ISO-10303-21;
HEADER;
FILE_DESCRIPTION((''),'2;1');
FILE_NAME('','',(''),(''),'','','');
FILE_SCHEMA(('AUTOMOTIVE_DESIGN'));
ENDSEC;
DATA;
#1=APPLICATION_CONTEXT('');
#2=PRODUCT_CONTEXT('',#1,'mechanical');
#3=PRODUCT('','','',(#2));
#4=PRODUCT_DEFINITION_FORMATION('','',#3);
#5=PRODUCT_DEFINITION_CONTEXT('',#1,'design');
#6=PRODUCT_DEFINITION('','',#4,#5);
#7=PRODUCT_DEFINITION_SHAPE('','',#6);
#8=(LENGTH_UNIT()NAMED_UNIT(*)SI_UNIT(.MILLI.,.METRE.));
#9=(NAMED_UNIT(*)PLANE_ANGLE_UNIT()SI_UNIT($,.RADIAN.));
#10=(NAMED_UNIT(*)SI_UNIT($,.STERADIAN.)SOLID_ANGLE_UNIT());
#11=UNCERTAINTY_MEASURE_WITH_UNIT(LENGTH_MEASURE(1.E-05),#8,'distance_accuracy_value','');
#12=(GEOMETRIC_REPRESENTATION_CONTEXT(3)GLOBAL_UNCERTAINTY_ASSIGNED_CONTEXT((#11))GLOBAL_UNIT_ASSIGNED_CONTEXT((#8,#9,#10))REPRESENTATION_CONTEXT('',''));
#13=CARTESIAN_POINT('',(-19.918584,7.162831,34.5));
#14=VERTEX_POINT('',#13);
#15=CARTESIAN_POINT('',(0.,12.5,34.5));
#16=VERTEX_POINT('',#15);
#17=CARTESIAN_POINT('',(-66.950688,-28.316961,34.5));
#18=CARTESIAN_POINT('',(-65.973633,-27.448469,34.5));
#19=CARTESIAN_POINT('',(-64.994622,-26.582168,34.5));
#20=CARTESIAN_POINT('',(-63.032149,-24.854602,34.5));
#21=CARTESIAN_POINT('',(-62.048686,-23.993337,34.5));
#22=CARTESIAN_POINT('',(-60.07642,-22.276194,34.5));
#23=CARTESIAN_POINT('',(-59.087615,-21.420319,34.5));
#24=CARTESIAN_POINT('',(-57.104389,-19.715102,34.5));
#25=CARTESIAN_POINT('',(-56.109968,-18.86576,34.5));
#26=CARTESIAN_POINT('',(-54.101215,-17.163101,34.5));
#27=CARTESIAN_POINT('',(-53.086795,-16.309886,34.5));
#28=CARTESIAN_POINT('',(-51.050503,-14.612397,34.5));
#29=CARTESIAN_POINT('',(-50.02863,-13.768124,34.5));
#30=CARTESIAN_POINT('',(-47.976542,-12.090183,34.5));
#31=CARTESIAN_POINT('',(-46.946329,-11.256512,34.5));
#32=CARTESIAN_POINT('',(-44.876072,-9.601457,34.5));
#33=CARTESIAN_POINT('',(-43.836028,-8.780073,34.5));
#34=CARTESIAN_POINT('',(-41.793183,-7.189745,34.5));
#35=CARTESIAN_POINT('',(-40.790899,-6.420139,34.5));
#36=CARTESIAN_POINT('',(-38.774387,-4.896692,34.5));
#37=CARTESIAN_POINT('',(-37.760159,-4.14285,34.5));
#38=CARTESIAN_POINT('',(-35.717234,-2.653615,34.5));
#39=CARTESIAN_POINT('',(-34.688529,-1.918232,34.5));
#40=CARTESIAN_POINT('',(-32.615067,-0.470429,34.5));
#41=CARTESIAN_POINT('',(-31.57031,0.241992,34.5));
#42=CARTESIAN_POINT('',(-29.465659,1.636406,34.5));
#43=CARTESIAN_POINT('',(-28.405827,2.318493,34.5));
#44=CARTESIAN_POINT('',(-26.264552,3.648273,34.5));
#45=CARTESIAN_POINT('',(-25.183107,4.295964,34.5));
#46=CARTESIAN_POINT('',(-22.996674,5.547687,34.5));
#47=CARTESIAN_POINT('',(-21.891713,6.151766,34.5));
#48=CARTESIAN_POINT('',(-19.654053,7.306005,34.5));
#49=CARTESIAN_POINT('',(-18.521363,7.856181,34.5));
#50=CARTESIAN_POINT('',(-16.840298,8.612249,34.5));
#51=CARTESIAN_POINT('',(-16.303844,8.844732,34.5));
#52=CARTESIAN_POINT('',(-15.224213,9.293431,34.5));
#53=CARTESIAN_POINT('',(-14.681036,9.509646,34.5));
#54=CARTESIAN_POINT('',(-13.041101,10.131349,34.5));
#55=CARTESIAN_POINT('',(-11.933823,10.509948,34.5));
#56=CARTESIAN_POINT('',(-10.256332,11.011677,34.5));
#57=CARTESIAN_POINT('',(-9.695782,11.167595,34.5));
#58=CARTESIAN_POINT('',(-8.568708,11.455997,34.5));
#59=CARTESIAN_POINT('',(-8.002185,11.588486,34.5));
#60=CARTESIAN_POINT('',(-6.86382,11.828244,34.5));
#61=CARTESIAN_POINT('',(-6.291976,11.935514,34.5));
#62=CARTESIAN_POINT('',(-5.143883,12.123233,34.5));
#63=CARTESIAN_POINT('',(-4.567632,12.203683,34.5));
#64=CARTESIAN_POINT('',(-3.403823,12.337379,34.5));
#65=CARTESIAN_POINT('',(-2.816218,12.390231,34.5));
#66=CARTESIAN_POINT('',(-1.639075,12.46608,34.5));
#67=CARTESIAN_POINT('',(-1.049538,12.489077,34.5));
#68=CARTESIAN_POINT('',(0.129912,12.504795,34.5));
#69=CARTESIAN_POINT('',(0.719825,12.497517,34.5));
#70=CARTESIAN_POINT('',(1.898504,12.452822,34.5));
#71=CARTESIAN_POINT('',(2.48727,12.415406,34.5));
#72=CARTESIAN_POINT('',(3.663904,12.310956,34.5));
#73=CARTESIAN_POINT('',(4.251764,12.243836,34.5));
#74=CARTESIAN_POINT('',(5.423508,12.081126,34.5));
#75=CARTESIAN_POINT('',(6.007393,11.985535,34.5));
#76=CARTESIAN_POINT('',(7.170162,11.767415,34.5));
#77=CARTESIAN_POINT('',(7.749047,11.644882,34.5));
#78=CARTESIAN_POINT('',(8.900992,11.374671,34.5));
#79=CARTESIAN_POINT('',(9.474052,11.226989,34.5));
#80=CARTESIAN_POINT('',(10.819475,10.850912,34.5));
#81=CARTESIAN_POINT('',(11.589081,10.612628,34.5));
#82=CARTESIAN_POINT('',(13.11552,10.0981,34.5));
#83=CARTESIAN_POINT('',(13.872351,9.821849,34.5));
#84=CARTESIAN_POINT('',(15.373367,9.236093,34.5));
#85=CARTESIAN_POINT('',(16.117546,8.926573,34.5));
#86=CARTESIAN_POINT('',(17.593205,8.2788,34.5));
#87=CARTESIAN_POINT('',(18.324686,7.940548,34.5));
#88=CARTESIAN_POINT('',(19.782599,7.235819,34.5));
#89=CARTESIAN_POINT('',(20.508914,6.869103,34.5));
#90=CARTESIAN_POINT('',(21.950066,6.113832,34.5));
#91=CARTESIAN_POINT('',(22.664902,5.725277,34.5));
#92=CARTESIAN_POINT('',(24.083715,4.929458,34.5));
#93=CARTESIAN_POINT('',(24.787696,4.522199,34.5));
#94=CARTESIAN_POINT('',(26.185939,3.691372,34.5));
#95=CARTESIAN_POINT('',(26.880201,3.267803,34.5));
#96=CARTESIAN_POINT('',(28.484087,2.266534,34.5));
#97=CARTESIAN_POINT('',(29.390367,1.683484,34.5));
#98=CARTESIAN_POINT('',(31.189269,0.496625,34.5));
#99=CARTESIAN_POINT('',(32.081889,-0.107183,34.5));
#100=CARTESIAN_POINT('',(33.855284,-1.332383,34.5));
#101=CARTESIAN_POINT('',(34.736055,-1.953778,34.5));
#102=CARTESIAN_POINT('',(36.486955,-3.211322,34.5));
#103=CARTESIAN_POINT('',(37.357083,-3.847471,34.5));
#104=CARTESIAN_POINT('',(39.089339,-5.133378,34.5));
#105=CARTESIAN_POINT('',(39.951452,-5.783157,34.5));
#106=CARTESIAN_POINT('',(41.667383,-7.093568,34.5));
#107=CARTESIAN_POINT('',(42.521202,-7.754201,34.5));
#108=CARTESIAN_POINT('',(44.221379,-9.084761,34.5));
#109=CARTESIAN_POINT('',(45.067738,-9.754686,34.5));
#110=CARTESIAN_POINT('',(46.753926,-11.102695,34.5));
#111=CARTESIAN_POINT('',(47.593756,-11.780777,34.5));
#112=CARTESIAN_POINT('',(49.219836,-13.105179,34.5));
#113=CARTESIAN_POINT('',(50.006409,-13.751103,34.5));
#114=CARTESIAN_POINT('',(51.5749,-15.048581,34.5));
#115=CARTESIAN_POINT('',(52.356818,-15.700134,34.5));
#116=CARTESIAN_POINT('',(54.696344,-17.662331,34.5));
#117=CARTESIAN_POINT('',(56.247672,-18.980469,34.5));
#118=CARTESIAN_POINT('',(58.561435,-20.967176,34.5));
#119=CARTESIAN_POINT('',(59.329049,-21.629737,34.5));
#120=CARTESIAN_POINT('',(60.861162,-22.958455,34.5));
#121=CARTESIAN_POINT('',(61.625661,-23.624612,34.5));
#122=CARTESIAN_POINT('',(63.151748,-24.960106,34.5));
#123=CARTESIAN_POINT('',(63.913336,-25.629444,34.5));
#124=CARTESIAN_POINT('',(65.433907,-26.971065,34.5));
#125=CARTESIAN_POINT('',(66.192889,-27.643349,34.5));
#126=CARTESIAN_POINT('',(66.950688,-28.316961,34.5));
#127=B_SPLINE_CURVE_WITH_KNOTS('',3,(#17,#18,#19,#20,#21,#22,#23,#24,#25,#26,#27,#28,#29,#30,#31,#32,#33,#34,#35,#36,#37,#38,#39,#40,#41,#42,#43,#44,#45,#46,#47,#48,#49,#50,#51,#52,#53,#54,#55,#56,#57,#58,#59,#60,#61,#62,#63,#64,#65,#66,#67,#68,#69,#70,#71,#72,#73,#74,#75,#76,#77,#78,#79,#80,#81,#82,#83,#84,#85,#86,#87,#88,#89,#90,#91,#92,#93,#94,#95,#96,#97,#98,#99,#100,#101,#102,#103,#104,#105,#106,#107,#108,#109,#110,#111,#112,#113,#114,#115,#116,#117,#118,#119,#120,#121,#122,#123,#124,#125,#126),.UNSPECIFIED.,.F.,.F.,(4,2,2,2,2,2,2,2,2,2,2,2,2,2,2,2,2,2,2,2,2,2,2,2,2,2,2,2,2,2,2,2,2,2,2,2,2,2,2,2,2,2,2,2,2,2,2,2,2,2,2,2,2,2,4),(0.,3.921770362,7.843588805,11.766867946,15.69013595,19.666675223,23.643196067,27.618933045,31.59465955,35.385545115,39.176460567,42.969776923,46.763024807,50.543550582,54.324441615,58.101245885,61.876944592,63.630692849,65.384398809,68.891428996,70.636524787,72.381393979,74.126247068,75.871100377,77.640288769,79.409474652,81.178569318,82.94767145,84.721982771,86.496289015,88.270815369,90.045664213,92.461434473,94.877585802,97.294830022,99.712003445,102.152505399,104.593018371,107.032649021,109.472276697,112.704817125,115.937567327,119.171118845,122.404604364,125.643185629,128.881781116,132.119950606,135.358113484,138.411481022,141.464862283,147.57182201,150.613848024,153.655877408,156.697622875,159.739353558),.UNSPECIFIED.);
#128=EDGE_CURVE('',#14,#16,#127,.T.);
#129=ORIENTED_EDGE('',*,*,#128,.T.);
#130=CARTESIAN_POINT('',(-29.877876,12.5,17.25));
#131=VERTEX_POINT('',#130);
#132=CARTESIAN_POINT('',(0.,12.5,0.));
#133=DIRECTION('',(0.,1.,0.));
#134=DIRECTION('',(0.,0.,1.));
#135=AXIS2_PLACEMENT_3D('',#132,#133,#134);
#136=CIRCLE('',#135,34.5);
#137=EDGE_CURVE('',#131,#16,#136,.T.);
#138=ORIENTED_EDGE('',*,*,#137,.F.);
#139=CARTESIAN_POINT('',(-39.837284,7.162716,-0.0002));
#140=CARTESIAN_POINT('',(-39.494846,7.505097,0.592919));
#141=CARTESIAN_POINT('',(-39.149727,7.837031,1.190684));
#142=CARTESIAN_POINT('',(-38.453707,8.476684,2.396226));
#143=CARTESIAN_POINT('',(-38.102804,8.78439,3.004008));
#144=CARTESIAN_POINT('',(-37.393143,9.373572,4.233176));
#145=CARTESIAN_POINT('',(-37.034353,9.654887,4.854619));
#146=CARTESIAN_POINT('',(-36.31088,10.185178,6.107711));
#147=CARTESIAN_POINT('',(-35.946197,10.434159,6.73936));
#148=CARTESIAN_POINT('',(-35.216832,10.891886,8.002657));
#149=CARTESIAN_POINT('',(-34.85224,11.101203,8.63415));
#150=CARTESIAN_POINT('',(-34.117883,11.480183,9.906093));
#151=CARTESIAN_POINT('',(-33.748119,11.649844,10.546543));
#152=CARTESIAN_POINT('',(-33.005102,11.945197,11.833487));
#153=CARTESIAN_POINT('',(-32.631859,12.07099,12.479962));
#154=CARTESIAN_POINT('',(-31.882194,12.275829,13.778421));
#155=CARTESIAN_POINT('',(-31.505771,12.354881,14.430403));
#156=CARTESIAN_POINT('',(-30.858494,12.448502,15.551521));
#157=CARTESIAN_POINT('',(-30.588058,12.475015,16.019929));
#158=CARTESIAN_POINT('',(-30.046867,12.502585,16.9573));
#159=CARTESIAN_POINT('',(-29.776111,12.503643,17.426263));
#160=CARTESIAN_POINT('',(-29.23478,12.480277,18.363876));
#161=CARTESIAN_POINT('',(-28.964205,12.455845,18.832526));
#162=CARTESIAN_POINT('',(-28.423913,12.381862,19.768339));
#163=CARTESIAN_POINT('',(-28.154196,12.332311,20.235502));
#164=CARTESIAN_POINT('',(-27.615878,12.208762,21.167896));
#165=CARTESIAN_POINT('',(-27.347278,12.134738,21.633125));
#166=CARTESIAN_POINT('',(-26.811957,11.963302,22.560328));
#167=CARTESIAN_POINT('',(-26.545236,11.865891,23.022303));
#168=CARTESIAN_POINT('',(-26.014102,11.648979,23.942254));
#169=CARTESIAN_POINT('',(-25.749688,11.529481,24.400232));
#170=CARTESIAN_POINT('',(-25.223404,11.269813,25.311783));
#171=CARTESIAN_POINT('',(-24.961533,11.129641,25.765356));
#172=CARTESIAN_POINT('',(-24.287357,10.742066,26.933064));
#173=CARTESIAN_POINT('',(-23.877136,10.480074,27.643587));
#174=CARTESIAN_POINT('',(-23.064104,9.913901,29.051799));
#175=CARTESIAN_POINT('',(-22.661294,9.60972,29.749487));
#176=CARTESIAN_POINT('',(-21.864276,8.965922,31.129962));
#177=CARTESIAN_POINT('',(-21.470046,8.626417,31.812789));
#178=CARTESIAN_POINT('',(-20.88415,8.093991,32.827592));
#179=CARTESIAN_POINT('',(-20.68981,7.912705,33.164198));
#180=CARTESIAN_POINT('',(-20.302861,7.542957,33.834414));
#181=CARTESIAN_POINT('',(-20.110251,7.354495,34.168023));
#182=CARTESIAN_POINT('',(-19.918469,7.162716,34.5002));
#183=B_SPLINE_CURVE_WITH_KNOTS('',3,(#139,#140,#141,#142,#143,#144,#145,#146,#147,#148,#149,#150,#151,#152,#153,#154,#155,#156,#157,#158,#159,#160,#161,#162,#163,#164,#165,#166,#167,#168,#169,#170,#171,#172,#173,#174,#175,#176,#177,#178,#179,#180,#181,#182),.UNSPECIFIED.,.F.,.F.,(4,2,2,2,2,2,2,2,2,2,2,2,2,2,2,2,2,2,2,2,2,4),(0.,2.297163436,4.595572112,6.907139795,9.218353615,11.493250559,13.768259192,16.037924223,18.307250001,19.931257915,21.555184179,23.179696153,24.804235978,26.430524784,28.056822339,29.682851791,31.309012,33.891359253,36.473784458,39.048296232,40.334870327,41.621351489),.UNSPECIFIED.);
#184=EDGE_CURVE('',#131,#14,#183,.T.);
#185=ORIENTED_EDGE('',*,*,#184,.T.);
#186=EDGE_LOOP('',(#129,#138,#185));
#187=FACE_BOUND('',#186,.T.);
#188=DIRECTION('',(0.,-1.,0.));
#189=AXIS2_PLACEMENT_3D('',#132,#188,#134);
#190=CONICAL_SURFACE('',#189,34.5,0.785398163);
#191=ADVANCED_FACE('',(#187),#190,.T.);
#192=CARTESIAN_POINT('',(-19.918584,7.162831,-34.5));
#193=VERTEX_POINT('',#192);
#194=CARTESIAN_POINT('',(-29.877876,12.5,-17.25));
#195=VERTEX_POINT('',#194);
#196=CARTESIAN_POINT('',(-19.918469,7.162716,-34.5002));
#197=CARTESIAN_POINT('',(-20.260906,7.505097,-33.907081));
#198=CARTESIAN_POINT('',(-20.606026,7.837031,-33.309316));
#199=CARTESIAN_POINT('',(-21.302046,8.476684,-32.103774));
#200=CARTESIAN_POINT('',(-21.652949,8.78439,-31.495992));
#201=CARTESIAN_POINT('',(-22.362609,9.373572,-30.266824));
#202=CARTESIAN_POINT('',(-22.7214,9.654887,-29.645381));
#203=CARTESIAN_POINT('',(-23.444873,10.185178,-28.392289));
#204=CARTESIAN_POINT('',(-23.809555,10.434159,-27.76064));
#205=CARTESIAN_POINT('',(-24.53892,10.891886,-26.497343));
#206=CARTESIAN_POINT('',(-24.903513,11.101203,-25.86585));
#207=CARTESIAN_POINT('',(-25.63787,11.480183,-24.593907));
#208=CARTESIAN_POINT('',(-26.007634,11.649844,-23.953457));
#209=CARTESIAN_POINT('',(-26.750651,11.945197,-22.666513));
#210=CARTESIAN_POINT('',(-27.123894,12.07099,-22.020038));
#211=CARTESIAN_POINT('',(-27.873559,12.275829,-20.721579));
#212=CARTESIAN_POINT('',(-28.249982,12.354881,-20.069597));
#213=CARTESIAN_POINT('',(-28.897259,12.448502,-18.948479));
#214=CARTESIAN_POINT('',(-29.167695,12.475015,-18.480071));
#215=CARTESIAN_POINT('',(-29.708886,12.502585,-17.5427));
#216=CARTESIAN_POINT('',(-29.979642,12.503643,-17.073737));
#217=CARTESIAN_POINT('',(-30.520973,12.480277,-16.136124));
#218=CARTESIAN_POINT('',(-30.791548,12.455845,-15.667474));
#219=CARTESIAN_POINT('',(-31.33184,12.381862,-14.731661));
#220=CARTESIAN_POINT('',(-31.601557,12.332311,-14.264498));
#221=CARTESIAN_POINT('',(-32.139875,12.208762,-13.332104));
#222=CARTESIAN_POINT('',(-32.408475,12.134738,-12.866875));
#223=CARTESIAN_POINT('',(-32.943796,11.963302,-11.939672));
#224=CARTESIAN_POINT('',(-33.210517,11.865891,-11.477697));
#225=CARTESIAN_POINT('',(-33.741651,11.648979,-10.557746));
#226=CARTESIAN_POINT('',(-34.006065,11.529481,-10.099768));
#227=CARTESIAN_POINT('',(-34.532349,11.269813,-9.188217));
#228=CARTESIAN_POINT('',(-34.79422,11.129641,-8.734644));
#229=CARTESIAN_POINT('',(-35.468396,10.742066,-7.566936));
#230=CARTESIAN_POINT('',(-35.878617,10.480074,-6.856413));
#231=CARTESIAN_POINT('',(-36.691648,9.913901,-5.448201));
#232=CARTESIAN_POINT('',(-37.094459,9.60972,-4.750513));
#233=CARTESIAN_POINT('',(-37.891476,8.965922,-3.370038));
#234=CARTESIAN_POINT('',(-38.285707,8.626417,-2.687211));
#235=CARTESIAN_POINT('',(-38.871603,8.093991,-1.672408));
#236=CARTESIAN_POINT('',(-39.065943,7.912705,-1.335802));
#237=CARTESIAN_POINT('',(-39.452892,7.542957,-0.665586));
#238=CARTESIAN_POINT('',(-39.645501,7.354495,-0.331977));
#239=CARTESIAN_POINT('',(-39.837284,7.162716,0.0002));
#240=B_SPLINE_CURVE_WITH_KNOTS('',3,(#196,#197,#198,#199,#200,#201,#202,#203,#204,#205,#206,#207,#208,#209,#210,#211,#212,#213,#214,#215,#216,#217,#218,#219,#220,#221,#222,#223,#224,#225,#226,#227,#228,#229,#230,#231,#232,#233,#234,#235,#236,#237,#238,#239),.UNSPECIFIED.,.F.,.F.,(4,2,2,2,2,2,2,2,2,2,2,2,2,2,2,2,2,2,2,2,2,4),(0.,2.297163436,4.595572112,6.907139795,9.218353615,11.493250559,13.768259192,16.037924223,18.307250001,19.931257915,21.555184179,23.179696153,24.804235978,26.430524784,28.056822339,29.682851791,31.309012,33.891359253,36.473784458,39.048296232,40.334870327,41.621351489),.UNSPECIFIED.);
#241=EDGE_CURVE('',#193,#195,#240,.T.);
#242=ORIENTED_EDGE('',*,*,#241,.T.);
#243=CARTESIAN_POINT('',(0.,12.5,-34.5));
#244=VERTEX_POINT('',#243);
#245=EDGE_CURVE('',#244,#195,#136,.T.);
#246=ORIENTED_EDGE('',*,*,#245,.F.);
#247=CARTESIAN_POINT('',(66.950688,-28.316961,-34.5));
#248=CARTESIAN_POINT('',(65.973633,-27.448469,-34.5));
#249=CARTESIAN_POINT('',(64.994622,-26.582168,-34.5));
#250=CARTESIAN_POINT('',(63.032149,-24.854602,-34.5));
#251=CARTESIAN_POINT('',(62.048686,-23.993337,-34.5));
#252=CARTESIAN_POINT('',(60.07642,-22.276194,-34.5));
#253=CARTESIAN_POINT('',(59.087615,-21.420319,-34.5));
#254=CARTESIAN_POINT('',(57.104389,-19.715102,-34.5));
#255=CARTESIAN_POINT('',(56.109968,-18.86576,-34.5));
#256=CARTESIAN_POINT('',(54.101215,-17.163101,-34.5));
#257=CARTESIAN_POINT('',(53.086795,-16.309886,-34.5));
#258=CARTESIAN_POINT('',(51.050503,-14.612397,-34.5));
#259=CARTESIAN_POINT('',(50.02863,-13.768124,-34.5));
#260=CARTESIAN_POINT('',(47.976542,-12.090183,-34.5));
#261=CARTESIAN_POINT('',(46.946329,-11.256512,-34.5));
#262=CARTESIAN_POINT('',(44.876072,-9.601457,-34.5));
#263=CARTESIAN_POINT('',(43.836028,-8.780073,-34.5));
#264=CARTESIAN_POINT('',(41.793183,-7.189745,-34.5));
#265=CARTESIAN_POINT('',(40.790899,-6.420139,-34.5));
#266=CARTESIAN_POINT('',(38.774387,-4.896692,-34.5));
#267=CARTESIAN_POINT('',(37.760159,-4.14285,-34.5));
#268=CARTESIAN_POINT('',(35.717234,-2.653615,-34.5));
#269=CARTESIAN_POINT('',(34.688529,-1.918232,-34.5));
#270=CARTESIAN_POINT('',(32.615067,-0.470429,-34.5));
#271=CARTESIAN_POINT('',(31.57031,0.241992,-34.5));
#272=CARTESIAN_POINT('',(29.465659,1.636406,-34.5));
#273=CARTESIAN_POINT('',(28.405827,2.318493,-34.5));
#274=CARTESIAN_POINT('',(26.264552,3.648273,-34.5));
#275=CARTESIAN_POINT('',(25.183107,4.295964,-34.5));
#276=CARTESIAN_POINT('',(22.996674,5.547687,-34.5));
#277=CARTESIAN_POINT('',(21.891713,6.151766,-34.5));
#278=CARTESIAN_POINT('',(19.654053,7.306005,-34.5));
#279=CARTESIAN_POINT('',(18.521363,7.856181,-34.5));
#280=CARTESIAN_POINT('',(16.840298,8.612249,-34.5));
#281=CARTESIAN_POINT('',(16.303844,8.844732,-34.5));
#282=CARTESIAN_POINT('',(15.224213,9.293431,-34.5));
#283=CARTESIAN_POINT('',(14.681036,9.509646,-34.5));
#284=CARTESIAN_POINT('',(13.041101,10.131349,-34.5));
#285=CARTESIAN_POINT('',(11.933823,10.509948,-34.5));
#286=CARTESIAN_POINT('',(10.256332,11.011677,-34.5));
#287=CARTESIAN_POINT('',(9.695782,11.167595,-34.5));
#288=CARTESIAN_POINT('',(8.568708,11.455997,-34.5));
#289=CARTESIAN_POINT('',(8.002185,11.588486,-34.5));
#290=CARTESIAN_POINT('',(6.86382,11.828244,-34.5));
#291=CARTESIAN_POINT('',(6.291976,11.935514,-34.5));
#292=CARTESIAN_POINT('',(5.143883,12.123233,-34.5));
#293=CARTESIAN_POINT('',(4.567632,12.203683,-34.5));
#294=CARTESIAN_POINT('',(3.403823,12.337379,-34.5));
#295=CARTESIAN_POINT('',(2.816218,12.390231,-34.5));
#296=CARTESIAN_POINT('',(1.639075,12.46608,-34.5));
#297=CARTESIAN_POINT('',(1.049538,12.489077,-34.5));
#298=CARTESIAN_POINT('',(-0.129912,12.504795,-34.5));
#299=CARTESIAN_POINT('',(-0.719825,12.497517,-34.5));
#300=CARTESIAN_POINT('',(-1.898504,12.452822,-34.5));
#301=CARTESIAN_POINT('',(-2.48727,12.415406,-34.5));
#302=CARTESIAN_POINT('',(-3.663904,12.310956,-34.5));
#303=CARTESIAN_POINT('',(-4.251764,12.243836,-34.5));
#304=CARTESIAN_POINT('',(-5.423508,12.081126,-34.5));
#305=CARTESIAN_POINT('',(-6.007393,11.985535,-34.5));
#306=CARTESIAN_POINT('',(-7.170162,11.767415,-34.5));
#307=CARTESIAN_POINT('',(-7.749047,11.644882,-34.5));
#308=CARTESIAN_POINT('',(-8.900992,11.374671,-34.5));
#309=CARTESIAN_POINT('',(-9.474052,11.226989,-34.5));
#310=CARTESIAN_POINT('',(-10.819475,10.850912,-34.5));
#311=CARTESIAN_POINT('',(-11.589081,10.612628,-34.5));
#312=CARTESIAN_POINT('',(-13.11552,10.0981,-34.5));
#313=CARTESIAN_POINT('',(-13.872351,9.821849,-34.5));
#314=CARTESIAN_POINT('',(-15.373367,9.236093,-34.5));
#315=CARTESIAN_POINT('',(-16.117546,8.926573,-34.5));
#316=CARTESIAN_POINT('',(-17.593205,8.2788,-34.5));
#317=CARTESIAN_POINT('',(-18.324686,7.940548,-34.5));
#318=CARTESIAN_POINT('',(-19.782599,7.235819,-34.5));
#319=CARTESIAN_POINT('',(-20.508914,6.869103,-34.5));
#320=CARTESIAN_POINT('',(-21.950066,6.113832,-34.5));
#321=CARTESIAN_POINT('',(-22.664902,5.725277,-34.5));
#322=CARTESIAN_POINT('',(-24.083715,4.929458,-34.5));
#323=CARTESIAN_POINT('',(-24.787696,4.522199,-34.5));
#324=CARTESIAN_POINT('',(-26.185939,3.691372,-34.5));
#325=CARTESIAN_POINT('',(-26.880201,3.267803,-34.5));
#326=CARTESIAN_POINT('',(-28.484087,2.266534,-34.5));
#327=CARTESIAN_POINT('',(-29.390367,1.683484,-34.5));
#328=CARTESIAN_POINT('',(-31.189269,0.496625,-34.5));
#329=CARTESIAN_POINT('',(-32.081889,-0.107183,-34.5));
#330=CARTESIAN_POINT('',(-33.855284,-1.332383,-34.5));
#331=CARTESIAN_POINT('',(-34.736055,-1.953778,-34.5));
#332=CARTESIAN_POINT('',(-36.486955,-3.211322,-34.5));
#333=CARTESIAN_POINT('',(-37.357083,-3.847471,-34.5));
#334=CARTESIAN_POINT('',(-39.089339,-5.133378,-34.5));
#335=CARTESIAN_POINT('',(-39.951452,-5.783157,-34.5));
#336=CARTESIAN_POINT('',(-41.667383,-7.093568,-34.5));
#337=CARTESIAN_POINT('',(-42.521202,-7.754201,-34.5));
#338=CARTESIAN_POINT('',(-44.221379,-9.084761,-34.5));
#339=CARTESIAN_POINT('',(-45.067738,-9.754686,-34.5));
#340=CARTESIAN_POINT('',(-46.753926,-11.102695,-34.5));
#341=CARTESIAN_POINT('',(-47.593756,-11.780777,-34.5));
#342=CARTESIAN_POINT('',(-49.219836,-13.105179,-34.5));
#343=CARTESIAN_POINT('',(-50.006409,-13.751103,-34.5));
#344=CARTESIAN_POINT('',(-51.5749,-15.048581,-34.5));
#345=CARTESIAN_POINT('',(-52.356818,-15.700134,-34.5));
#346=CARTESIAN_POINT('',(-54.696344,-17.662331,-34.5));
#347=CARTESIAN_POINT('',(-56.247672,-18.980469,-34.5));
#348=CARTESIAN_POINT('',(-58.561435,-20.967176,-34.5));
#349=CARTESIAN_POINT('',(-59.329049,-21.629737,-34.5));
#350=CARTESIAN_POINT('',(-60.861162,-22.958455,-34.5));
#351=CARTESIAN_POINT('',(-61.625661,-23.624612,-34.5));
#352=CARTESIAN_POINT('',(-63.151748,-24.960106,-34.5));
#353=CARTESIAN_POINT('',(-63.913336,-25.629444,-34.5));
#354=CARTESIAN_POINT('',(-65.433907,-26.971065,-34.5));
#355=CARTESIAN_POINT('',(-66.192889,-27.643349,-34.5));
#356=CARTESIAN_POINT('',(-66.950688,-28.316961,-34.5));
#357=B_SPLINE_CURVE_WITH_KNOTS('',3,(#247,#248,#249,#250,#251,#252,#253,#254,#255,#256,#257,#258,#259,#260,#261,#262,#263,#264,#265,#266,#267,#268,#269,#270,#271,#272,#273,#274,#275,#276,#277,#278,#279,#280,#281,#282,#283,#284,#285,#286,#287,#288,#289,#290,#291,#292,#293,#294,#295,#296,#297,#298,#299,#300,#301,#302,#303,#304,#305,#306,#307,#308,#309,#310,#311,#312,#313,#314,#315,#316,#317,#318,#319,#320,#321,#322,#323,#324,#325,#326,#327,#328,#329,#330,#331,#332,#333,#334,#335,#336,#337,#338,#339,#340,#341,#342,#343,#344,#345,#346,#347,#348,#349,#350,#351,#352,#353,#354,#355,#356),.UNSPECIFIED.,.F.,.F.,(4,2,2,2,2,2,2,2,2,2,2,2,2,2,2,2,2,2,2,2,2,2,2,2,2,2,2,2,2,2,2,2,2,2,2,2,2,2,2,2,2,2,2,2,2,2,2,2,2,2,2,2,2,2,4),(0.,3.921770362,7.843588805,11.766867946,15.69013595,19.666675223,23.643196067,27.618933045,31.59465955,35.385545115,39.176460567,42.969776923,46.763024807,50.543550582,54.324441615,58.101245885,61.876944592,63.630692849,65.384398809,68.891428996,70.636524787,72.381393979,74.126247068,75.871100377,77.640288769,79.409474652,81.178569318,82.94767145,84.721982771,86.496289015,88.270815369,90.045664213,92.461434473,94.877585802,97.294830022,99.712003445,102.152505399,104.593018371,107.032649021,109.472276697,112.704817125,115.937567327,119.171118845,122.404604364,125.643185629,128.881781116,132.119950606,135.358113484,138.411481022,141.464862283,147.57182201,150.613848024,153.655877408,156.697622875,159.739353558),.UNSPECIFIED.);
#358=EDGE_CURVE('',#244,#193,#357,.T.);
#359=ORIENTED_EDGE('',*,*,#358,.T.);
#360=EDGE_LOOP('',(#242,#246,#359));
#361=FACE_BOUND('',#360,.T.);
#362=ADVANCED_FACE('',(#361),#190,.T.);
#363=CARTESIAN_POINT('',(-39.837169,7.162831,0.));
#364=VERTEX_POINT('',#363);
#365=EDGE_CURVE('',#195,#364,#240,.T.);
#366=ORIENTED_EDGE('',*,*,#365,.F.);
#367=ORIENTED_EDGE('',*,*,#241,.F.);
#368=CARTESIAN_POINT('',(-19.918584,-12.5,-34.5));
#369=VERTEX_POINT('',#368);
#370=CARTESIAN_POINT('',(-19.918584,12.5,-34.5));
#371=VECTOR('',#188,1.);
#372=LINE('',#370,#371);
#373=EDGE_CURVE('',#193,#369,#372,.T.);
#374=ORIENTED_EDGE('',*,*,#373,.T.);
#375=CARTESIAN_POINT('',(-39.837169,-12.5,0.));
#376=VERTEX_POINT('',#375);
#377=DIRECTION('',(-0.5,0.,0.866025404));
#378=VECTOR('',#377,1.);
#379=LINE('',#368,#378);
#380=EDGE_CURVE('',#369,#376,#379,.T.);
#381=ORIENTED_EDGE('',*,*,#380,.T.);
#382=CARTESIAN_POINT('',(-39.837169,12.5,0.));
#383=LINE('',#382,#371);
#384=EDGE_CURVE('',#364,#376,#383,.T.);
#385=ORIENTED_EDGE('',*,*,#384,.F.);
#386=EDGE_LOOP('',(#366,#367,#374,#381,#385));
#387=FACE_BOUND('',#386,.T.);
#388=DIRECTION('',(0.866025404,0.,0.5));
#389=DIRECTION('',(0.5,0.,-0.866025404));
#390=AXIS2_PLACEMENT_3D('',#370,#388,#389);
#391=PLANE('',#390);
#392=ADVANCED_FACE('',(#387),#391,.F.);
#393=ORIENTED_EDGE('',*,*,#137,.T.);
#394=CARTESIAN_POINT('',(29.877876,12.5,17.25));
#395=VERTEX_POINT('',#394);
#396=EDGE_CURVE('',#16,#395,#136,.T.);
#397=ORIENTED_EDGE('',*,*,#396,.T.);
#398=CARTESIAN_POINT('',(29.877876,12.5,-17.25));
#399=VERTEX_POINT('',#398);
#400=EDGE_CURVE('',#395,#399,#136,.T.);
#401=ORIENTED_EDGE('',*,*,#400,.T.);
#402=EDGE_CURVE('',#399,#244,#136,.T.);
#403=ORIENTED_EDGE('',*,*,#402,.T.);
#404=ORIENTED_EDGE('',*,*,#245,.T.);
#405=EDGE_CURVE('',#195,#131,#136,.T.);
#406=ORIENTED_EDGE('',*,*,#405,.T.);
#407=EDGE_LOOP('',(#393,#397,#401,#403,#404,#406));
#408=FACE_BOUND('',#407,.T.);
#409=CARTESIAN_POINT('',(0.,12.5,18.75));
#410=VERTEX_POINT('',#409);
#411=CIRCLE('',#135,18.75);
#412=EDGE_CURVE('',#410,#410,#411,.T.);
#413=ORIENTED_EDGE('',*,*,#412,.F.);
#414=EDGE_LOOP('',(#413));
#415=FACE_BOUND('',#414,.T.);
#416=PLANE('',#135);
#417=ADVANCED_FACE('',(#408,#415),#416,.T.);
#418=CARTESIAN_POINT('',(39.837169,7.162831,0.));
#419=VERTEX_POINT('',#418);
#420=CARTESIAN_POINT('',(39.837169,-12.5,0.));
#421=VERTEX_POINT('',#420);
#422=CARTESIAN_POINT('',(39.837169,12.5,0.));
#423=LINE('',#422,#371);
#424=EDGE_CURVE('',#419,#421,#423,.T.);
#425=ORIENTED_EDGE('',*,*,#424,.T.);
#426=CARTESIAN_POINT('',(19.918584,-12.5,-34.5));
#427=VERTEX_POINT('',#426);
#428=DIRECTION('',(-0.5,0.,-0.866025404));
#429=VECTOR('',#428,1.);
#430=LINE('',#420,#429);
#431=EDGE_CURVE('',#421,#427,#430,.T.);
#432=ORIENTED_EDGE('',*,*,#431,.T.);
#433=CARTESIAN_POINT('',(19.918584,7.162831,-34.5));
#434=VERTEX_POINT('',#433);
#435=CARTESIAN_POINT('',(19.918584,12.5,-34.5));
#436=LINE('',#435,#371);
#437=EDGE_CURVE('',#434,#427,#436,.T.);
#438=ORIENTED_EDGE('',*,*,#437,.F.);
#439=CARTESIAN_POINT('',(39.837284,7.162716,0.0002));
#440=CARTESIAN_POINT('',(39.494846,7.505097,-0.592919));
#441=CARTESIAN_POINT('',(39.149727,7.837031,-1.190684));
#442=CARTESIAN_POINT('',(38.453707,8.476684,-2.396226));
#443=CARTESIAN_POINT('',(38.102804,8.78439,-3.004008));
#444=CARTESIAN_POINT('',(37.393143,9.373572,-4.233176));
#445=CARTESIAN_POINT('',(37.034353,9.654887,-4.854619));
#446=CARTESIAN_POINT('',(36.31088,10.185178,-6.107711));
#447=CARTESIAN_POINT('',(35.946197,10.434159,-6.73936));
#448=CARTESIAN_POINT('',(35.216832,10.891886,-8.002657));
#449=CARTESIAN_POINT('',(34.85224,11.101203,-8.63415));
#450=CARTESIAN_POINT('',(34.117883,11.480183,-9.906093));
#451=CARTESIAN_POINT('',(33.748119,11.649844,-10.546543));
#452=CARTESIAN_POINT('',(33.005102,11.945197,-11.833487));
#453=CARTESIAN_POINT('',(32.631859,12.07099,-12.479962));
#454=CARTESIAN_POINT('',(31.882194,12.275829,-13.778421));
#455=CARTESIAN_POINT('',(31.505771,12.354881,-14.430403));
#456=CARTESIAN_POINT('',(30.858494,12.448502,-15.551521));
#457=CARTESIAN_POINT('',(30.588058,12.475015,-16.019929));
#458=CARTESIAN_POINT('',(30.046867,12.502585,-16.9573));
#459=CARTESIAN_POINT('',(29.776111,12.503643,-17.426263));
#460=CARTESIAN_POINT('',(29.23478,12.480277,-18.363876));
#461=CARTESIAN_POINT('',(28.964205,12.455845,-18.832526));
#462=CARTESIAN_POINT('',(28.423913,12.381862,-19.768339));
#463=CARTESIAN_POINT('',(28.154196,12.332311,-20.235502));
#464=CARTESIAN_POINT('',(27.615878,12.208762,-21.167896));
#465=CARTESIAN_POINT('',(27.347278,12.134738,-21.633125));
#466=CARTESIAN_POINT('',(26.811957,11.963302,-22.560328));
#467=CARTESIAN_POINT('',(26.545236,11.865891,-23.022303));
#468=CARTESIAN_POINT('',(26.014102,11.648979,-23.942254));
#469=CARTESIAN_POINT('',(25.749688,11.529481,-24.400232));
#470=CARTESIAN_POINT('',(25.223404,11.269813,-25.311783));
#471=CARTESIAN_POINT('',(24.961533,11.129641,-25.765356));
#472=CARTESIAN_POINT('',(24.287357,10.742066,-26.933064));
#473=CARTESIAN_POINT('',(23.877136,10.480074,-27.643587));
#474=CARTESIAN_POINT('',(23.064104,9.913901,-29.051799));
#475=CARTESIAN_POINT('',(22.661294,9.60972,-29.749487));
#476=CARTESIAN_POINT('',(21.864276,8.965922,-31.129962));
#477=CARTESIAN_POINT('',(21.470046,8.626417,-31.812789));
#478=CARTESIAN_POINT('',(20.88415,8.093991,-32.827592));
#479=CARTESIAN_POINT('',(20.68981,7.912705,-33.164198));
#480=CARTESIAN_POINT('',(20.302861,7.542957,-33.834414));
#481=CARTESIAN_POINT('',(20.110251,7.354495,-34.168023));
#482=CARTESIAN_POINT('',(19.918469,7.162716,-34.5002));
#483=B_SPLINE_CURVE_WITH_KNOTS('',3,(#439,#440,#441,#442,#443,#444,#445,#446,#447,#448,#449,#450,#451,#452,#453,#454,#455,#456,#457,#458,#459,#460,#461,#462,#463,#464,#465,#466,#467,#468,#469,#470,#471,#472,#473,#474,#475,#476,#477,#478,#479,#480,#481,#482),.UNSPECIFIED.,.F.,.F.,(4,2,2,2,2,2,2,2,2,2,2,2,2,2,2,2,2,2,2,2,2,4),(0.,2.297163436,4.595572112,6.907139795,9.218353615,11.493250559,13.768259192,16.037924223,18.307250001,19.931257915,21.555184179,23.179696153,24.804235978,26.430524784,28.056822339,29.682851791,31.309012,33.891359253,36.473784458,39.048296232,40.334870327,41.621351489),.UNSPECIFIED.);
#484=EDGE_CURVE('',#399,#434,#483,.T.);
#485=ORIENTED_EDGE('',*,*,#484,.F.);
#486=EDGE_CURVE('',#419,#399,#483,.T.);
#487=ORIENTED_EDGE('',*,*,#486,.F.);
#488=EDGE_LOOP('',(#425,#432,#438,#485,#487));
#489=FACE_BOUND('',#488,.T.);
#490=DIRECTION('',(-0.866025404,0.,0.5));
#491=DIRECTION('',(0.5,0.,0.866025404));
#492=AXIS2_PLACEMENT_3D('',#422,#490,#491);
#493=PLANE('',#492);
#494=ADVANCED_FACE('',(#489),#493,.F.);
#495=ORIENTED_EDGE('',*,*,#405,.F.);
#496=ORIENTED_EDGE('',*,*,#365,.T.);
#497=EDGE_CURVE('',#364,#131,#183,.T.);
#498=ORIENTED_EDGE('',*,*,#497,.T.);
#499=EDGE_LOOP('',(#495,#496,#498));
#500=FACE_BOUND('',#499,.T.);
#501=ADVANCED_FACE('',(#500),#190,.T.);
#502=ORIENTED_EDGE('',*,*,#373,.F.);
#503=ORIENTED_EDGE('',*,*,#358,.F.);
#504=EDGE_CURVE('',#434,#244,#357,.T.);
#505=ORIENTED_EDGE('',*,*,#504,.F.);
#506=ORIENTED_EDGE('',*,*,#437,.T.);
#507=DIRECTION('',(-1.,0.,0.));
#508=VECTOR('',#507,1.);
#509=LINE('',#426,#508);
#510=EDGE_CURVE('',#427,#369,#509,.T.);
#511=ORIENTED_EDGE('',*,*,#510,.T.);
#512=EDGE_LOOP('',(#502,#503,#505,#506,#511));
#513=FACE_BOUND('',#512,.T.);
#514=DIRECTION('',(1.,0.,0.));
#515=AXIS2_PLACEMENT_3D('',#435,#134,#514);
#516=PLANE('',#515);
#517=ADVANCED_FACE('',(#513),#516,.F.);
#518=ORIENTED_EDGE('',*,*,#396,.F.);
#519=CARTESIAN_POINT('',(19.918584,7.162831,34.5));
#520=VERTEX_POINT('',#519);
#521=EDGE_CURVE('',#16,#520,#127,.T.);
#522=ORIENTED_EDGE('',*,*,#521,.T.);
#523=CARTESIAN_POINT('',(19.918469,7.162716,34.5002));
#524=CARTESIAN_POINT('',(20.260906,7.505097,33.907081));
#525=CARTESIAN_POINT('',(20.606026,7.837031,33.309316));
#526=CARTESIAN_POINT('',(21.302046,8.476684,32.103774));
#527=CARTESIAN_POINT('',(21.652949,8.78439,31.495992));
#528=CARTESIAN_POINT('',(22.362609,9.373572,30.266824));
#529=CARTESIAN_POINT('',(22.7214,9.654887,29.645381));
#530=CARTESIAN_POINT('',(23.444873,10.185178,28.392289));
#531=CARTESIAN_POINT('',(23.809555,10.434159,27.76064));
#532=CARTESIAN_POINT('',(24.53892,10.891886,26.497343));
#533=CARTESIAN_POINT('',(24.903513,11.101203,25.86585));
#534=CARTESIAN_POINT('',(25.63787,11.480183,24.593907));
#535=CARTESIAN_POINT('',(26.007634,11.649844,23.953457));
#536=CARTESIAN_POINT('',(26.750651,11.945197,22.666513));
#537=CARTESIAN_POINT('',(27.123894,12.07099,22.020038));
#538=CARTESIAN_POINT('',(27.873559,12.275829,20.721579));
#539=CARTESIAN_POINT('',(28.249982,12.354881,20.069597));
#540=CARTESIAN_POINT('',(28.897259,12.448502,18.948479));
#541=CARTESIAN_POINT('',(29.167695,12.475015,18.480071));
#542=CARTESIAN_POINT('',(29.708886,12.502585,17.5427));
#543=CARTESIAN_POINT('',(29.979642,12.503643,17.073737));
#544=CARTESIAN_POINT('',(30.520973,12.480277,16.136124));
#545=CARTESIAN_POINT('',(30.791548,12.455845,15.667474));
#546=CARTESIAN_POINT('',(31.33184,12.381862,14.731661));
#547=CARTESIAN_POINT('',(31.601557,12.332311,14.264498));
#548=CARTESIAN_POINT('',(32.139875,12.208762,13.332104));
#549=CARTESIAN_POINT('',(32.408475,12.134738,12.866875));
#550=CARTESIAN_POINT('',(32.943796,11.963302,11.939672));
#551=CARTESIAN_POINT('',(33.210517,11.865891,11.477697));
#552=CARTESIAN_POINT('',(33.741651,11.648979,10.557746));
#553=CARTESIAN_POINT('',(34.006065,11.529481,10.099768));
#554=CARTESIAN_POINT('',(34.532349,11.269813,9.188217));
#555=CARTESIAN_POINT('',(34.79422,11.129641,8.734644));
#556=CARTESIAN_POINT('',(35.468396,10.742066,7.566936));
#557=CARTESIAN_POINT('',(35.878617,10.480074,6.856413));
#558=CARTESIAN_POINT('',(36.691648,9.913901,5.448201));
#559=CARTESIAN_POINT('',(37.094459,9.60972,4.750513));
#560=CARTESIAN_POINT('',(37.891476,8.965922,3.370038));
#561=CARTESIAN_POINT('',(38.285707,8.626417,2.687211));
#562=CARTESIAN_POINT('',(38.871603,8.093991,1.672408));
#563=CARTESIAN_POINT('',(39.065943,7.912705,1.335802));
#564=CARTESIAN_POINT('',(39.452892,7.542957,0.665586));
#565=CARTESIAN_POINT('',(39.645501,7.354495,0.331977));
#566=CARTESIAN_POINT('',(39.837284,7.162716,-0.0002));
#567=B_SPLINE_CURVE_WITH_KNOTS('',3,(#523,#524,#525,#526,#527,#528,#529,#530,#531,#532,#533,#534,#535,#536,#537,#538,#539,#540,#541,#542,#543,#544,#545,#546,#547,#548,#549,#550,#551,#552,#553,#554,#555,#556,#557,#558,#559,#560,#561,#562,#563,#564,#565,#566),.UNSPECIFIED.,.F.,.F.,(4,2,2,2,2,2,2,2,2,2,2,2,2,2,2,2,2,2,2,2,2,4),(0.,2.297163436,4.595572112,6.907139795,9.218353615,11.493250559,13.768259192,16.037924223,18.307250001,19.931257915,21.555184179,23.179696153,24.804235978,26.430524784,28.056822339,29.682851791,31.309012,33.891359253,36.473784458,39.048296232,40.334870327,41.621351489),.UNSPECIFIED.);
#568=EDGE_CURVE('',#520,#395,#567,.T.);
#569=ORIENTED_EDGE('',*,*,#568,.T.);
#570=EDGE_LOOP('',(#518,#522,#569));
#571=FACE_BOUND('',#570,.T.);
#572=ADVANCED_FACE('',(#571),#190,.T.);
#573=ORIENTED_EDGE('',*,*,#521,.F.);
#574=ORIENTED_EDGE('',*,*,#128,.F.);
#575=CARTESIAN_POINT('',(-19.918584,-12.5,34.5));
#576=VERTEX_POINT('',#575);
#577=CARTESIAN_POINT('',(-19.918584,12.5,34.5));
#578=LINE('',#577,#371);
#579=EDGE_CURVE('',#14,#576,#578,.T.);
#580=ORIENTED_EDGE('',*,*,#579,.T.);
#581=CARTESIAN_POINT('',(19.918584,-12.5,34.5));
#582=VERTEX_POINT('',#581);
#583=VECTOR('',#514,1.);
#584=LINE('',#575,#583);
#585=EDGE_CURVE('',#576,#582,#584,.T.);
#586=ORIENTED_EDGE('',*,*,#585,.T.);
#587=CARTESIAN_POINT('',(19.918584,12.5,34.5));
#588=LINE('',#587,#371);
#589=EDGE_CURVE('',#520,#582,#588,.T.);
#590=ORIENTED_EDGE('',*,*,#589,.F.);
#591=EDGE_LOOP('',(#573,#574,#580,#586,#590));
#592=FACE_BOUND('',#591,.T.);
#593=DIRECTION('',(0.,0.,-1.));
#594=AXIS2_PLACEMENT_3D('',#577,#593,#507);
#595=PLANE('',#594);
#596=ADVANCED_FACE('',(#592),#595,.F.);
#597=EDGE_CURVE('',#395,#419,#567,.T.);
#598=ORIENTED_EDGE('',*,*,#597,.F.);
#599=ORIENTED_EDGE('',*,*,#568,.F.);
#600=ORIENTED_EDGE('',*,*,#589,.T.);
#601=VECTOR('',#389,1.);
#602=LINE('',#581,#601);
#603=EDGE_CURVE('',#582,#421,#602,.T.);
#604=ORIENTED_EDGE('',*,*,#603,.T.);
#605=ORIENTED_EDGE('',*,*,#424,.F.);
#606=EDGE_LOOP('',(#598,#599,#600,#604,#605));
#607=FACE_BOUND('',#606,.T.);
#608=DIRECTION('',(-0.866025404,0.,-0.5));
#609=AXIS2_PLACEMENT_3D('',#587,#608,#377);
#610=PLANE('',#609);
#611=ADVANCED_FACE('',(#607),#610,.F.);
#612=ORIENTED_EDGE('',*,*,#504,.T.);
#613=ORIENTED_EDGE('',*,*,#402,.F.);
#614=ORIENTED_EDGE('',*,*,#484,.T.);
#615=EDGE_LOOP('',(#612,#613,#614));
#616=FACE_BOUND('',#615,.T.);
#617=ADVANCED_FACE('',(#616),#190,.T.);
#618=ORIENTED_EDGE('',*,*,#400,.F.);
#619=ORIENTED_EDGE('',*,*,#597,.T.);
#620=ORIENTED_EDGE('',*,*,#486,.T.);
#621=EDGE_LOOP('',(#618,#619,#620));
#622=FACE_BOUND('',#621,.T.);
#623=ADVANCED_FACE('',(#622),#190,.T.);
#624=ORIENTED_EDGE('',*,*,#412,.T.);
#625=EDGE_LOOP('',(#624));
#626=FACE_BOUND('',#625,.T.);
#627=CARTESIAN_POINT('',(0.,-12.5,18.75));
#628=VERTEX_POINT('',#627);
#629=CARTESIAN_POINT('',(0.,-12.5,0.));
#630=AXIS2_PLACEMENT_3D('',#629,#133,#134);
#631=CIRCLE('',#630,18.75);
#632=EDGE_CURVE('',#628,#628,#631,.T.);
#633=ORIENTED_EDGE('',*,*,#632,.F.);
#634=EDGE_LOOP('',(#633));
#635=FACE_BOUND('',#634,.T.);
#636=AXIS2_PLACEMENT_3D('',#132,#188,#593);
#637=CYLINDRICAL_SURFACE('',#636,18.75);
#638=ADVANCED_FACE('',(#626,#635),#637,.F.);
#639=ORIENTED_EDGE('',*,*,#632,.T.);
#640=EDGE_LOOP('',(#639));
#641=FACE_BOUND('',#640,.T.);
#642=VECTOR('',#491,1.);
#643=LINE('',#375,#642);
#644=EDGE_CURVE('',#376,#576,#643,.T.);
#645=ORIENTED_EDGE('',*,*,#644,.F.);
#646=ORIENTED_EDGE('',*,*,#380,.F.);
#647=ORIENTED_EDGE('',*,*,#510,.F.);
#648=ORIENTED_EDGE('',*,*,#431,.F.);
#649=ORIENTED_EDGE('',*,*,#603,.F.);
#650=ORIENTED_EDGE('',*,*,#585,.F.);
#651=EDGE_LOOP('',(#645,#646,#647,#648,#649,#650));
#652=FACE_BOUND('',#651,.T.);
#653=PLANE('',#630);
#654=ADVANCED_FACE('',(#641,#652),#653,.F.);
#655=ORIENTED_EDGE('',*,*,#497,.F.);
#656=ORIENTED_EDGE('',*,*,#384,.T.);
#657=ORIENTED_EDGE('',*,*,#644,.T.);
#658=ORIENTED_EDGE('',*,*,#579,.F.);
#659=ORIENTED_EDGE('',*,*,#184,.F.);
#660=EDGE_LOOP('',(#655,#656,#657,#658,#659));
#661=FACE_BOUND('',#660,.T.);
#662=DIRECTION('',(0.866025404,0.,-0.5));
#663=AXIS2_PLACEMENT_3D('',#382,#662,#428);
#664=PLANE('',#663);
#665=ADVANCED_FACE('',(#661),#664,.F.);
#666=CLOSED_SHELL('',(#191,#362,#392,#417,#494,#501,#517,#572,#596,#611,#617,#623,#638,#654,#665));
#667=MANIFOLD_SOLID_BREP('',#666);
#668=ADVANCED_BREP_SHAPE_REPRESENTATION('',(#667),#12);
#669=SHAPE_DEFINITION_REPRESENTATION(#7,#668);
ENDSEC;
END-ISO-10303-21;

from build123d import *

# Parameters (mm, degrees)
SKETCH1_R           = 18.75
BOSS_EXTRUDE1_DEPTH = 12.5
SKETCH2_OUTSIDE_W   = 221.996
SKETCH2_OUTSIDE_H   = 211.322
SKETCH2_OUTSIDE_R   = 34.5
CUT_EXTRUDE1_DEPTH  = 59.328809348
CUT_EXTRUDE1_DRAFT  = -45


with BuildPart() as part:
    # Sketch1 → Boss-Extrude1 (new, symmetric)
    with BuildSketch(Plane(origin=(0, 0, 0), x_dir=(1, 0, 0), z_dir=(0, 1, 0))):
        Polygon((39.837168574, 0), (19.918584287, 34.5), (-19.918584287, 34.5), (-39.837168574, 0), (-19.918584287, -34.5), (19.918584287, -34.5), align=None)
        with Locations(Location((0, 0, 0), (0, 0, 270))):
            Circle(SKETCH1_R, mode=Mode.SUBTRACT)
    extrude(amount=BOSS_EXTRUDE1_DEPTH, both=True)


with BuildPart() as cut_extrude1_tool:
    # Sketch2 outside → Cut-Extrude1 (with draft: the straight prism first)
    with BuildSketch(Plane(origin=(0, 12.5, 0), x_dir=(1, 0, 0), z_dir=(0, 1, 0))):
        Rectangle(SKETCH2_OUTSIDE_W, SKETCH2_OUTSIDE_H)
        Circle(SKETCH2_OUTSIDE_R, mode=Mode.SUBTRACT)
    extrude(amount=-CUT_EXTRUDE1_DEPTH)
    # Cut-Extrude1: the draft: its side faces are tilted about the plane it starts from
    cut_extrude1_sides = [cut_extrude1_tool.faces().sort_by_distance(p)[0] for p in [
        (0, -17.164404674, 105.661),
        (110.998, -17.164404674, 0),
        (0, -17.164404674, -105.661),
        (-110.998, -17.164404674, 0),
        (-34.5, -17.164404674, 0),
    ]]
    draft(cut_extrude1_sides, Plane(origin=(0, 12.5, 0), x_dir=(1, 0, 0), z_dir=(0, 1, 0)), CUT_EXTRUDE1_DRAFT)


with BuildPart() as part_1:
    add(part.part)

    # Cut-Extrude1: cut by cut_extrude1_tool
    add(cut_extrude1_tool.part, mode=Mode.SUBTRACT)


solid = part_1.part
